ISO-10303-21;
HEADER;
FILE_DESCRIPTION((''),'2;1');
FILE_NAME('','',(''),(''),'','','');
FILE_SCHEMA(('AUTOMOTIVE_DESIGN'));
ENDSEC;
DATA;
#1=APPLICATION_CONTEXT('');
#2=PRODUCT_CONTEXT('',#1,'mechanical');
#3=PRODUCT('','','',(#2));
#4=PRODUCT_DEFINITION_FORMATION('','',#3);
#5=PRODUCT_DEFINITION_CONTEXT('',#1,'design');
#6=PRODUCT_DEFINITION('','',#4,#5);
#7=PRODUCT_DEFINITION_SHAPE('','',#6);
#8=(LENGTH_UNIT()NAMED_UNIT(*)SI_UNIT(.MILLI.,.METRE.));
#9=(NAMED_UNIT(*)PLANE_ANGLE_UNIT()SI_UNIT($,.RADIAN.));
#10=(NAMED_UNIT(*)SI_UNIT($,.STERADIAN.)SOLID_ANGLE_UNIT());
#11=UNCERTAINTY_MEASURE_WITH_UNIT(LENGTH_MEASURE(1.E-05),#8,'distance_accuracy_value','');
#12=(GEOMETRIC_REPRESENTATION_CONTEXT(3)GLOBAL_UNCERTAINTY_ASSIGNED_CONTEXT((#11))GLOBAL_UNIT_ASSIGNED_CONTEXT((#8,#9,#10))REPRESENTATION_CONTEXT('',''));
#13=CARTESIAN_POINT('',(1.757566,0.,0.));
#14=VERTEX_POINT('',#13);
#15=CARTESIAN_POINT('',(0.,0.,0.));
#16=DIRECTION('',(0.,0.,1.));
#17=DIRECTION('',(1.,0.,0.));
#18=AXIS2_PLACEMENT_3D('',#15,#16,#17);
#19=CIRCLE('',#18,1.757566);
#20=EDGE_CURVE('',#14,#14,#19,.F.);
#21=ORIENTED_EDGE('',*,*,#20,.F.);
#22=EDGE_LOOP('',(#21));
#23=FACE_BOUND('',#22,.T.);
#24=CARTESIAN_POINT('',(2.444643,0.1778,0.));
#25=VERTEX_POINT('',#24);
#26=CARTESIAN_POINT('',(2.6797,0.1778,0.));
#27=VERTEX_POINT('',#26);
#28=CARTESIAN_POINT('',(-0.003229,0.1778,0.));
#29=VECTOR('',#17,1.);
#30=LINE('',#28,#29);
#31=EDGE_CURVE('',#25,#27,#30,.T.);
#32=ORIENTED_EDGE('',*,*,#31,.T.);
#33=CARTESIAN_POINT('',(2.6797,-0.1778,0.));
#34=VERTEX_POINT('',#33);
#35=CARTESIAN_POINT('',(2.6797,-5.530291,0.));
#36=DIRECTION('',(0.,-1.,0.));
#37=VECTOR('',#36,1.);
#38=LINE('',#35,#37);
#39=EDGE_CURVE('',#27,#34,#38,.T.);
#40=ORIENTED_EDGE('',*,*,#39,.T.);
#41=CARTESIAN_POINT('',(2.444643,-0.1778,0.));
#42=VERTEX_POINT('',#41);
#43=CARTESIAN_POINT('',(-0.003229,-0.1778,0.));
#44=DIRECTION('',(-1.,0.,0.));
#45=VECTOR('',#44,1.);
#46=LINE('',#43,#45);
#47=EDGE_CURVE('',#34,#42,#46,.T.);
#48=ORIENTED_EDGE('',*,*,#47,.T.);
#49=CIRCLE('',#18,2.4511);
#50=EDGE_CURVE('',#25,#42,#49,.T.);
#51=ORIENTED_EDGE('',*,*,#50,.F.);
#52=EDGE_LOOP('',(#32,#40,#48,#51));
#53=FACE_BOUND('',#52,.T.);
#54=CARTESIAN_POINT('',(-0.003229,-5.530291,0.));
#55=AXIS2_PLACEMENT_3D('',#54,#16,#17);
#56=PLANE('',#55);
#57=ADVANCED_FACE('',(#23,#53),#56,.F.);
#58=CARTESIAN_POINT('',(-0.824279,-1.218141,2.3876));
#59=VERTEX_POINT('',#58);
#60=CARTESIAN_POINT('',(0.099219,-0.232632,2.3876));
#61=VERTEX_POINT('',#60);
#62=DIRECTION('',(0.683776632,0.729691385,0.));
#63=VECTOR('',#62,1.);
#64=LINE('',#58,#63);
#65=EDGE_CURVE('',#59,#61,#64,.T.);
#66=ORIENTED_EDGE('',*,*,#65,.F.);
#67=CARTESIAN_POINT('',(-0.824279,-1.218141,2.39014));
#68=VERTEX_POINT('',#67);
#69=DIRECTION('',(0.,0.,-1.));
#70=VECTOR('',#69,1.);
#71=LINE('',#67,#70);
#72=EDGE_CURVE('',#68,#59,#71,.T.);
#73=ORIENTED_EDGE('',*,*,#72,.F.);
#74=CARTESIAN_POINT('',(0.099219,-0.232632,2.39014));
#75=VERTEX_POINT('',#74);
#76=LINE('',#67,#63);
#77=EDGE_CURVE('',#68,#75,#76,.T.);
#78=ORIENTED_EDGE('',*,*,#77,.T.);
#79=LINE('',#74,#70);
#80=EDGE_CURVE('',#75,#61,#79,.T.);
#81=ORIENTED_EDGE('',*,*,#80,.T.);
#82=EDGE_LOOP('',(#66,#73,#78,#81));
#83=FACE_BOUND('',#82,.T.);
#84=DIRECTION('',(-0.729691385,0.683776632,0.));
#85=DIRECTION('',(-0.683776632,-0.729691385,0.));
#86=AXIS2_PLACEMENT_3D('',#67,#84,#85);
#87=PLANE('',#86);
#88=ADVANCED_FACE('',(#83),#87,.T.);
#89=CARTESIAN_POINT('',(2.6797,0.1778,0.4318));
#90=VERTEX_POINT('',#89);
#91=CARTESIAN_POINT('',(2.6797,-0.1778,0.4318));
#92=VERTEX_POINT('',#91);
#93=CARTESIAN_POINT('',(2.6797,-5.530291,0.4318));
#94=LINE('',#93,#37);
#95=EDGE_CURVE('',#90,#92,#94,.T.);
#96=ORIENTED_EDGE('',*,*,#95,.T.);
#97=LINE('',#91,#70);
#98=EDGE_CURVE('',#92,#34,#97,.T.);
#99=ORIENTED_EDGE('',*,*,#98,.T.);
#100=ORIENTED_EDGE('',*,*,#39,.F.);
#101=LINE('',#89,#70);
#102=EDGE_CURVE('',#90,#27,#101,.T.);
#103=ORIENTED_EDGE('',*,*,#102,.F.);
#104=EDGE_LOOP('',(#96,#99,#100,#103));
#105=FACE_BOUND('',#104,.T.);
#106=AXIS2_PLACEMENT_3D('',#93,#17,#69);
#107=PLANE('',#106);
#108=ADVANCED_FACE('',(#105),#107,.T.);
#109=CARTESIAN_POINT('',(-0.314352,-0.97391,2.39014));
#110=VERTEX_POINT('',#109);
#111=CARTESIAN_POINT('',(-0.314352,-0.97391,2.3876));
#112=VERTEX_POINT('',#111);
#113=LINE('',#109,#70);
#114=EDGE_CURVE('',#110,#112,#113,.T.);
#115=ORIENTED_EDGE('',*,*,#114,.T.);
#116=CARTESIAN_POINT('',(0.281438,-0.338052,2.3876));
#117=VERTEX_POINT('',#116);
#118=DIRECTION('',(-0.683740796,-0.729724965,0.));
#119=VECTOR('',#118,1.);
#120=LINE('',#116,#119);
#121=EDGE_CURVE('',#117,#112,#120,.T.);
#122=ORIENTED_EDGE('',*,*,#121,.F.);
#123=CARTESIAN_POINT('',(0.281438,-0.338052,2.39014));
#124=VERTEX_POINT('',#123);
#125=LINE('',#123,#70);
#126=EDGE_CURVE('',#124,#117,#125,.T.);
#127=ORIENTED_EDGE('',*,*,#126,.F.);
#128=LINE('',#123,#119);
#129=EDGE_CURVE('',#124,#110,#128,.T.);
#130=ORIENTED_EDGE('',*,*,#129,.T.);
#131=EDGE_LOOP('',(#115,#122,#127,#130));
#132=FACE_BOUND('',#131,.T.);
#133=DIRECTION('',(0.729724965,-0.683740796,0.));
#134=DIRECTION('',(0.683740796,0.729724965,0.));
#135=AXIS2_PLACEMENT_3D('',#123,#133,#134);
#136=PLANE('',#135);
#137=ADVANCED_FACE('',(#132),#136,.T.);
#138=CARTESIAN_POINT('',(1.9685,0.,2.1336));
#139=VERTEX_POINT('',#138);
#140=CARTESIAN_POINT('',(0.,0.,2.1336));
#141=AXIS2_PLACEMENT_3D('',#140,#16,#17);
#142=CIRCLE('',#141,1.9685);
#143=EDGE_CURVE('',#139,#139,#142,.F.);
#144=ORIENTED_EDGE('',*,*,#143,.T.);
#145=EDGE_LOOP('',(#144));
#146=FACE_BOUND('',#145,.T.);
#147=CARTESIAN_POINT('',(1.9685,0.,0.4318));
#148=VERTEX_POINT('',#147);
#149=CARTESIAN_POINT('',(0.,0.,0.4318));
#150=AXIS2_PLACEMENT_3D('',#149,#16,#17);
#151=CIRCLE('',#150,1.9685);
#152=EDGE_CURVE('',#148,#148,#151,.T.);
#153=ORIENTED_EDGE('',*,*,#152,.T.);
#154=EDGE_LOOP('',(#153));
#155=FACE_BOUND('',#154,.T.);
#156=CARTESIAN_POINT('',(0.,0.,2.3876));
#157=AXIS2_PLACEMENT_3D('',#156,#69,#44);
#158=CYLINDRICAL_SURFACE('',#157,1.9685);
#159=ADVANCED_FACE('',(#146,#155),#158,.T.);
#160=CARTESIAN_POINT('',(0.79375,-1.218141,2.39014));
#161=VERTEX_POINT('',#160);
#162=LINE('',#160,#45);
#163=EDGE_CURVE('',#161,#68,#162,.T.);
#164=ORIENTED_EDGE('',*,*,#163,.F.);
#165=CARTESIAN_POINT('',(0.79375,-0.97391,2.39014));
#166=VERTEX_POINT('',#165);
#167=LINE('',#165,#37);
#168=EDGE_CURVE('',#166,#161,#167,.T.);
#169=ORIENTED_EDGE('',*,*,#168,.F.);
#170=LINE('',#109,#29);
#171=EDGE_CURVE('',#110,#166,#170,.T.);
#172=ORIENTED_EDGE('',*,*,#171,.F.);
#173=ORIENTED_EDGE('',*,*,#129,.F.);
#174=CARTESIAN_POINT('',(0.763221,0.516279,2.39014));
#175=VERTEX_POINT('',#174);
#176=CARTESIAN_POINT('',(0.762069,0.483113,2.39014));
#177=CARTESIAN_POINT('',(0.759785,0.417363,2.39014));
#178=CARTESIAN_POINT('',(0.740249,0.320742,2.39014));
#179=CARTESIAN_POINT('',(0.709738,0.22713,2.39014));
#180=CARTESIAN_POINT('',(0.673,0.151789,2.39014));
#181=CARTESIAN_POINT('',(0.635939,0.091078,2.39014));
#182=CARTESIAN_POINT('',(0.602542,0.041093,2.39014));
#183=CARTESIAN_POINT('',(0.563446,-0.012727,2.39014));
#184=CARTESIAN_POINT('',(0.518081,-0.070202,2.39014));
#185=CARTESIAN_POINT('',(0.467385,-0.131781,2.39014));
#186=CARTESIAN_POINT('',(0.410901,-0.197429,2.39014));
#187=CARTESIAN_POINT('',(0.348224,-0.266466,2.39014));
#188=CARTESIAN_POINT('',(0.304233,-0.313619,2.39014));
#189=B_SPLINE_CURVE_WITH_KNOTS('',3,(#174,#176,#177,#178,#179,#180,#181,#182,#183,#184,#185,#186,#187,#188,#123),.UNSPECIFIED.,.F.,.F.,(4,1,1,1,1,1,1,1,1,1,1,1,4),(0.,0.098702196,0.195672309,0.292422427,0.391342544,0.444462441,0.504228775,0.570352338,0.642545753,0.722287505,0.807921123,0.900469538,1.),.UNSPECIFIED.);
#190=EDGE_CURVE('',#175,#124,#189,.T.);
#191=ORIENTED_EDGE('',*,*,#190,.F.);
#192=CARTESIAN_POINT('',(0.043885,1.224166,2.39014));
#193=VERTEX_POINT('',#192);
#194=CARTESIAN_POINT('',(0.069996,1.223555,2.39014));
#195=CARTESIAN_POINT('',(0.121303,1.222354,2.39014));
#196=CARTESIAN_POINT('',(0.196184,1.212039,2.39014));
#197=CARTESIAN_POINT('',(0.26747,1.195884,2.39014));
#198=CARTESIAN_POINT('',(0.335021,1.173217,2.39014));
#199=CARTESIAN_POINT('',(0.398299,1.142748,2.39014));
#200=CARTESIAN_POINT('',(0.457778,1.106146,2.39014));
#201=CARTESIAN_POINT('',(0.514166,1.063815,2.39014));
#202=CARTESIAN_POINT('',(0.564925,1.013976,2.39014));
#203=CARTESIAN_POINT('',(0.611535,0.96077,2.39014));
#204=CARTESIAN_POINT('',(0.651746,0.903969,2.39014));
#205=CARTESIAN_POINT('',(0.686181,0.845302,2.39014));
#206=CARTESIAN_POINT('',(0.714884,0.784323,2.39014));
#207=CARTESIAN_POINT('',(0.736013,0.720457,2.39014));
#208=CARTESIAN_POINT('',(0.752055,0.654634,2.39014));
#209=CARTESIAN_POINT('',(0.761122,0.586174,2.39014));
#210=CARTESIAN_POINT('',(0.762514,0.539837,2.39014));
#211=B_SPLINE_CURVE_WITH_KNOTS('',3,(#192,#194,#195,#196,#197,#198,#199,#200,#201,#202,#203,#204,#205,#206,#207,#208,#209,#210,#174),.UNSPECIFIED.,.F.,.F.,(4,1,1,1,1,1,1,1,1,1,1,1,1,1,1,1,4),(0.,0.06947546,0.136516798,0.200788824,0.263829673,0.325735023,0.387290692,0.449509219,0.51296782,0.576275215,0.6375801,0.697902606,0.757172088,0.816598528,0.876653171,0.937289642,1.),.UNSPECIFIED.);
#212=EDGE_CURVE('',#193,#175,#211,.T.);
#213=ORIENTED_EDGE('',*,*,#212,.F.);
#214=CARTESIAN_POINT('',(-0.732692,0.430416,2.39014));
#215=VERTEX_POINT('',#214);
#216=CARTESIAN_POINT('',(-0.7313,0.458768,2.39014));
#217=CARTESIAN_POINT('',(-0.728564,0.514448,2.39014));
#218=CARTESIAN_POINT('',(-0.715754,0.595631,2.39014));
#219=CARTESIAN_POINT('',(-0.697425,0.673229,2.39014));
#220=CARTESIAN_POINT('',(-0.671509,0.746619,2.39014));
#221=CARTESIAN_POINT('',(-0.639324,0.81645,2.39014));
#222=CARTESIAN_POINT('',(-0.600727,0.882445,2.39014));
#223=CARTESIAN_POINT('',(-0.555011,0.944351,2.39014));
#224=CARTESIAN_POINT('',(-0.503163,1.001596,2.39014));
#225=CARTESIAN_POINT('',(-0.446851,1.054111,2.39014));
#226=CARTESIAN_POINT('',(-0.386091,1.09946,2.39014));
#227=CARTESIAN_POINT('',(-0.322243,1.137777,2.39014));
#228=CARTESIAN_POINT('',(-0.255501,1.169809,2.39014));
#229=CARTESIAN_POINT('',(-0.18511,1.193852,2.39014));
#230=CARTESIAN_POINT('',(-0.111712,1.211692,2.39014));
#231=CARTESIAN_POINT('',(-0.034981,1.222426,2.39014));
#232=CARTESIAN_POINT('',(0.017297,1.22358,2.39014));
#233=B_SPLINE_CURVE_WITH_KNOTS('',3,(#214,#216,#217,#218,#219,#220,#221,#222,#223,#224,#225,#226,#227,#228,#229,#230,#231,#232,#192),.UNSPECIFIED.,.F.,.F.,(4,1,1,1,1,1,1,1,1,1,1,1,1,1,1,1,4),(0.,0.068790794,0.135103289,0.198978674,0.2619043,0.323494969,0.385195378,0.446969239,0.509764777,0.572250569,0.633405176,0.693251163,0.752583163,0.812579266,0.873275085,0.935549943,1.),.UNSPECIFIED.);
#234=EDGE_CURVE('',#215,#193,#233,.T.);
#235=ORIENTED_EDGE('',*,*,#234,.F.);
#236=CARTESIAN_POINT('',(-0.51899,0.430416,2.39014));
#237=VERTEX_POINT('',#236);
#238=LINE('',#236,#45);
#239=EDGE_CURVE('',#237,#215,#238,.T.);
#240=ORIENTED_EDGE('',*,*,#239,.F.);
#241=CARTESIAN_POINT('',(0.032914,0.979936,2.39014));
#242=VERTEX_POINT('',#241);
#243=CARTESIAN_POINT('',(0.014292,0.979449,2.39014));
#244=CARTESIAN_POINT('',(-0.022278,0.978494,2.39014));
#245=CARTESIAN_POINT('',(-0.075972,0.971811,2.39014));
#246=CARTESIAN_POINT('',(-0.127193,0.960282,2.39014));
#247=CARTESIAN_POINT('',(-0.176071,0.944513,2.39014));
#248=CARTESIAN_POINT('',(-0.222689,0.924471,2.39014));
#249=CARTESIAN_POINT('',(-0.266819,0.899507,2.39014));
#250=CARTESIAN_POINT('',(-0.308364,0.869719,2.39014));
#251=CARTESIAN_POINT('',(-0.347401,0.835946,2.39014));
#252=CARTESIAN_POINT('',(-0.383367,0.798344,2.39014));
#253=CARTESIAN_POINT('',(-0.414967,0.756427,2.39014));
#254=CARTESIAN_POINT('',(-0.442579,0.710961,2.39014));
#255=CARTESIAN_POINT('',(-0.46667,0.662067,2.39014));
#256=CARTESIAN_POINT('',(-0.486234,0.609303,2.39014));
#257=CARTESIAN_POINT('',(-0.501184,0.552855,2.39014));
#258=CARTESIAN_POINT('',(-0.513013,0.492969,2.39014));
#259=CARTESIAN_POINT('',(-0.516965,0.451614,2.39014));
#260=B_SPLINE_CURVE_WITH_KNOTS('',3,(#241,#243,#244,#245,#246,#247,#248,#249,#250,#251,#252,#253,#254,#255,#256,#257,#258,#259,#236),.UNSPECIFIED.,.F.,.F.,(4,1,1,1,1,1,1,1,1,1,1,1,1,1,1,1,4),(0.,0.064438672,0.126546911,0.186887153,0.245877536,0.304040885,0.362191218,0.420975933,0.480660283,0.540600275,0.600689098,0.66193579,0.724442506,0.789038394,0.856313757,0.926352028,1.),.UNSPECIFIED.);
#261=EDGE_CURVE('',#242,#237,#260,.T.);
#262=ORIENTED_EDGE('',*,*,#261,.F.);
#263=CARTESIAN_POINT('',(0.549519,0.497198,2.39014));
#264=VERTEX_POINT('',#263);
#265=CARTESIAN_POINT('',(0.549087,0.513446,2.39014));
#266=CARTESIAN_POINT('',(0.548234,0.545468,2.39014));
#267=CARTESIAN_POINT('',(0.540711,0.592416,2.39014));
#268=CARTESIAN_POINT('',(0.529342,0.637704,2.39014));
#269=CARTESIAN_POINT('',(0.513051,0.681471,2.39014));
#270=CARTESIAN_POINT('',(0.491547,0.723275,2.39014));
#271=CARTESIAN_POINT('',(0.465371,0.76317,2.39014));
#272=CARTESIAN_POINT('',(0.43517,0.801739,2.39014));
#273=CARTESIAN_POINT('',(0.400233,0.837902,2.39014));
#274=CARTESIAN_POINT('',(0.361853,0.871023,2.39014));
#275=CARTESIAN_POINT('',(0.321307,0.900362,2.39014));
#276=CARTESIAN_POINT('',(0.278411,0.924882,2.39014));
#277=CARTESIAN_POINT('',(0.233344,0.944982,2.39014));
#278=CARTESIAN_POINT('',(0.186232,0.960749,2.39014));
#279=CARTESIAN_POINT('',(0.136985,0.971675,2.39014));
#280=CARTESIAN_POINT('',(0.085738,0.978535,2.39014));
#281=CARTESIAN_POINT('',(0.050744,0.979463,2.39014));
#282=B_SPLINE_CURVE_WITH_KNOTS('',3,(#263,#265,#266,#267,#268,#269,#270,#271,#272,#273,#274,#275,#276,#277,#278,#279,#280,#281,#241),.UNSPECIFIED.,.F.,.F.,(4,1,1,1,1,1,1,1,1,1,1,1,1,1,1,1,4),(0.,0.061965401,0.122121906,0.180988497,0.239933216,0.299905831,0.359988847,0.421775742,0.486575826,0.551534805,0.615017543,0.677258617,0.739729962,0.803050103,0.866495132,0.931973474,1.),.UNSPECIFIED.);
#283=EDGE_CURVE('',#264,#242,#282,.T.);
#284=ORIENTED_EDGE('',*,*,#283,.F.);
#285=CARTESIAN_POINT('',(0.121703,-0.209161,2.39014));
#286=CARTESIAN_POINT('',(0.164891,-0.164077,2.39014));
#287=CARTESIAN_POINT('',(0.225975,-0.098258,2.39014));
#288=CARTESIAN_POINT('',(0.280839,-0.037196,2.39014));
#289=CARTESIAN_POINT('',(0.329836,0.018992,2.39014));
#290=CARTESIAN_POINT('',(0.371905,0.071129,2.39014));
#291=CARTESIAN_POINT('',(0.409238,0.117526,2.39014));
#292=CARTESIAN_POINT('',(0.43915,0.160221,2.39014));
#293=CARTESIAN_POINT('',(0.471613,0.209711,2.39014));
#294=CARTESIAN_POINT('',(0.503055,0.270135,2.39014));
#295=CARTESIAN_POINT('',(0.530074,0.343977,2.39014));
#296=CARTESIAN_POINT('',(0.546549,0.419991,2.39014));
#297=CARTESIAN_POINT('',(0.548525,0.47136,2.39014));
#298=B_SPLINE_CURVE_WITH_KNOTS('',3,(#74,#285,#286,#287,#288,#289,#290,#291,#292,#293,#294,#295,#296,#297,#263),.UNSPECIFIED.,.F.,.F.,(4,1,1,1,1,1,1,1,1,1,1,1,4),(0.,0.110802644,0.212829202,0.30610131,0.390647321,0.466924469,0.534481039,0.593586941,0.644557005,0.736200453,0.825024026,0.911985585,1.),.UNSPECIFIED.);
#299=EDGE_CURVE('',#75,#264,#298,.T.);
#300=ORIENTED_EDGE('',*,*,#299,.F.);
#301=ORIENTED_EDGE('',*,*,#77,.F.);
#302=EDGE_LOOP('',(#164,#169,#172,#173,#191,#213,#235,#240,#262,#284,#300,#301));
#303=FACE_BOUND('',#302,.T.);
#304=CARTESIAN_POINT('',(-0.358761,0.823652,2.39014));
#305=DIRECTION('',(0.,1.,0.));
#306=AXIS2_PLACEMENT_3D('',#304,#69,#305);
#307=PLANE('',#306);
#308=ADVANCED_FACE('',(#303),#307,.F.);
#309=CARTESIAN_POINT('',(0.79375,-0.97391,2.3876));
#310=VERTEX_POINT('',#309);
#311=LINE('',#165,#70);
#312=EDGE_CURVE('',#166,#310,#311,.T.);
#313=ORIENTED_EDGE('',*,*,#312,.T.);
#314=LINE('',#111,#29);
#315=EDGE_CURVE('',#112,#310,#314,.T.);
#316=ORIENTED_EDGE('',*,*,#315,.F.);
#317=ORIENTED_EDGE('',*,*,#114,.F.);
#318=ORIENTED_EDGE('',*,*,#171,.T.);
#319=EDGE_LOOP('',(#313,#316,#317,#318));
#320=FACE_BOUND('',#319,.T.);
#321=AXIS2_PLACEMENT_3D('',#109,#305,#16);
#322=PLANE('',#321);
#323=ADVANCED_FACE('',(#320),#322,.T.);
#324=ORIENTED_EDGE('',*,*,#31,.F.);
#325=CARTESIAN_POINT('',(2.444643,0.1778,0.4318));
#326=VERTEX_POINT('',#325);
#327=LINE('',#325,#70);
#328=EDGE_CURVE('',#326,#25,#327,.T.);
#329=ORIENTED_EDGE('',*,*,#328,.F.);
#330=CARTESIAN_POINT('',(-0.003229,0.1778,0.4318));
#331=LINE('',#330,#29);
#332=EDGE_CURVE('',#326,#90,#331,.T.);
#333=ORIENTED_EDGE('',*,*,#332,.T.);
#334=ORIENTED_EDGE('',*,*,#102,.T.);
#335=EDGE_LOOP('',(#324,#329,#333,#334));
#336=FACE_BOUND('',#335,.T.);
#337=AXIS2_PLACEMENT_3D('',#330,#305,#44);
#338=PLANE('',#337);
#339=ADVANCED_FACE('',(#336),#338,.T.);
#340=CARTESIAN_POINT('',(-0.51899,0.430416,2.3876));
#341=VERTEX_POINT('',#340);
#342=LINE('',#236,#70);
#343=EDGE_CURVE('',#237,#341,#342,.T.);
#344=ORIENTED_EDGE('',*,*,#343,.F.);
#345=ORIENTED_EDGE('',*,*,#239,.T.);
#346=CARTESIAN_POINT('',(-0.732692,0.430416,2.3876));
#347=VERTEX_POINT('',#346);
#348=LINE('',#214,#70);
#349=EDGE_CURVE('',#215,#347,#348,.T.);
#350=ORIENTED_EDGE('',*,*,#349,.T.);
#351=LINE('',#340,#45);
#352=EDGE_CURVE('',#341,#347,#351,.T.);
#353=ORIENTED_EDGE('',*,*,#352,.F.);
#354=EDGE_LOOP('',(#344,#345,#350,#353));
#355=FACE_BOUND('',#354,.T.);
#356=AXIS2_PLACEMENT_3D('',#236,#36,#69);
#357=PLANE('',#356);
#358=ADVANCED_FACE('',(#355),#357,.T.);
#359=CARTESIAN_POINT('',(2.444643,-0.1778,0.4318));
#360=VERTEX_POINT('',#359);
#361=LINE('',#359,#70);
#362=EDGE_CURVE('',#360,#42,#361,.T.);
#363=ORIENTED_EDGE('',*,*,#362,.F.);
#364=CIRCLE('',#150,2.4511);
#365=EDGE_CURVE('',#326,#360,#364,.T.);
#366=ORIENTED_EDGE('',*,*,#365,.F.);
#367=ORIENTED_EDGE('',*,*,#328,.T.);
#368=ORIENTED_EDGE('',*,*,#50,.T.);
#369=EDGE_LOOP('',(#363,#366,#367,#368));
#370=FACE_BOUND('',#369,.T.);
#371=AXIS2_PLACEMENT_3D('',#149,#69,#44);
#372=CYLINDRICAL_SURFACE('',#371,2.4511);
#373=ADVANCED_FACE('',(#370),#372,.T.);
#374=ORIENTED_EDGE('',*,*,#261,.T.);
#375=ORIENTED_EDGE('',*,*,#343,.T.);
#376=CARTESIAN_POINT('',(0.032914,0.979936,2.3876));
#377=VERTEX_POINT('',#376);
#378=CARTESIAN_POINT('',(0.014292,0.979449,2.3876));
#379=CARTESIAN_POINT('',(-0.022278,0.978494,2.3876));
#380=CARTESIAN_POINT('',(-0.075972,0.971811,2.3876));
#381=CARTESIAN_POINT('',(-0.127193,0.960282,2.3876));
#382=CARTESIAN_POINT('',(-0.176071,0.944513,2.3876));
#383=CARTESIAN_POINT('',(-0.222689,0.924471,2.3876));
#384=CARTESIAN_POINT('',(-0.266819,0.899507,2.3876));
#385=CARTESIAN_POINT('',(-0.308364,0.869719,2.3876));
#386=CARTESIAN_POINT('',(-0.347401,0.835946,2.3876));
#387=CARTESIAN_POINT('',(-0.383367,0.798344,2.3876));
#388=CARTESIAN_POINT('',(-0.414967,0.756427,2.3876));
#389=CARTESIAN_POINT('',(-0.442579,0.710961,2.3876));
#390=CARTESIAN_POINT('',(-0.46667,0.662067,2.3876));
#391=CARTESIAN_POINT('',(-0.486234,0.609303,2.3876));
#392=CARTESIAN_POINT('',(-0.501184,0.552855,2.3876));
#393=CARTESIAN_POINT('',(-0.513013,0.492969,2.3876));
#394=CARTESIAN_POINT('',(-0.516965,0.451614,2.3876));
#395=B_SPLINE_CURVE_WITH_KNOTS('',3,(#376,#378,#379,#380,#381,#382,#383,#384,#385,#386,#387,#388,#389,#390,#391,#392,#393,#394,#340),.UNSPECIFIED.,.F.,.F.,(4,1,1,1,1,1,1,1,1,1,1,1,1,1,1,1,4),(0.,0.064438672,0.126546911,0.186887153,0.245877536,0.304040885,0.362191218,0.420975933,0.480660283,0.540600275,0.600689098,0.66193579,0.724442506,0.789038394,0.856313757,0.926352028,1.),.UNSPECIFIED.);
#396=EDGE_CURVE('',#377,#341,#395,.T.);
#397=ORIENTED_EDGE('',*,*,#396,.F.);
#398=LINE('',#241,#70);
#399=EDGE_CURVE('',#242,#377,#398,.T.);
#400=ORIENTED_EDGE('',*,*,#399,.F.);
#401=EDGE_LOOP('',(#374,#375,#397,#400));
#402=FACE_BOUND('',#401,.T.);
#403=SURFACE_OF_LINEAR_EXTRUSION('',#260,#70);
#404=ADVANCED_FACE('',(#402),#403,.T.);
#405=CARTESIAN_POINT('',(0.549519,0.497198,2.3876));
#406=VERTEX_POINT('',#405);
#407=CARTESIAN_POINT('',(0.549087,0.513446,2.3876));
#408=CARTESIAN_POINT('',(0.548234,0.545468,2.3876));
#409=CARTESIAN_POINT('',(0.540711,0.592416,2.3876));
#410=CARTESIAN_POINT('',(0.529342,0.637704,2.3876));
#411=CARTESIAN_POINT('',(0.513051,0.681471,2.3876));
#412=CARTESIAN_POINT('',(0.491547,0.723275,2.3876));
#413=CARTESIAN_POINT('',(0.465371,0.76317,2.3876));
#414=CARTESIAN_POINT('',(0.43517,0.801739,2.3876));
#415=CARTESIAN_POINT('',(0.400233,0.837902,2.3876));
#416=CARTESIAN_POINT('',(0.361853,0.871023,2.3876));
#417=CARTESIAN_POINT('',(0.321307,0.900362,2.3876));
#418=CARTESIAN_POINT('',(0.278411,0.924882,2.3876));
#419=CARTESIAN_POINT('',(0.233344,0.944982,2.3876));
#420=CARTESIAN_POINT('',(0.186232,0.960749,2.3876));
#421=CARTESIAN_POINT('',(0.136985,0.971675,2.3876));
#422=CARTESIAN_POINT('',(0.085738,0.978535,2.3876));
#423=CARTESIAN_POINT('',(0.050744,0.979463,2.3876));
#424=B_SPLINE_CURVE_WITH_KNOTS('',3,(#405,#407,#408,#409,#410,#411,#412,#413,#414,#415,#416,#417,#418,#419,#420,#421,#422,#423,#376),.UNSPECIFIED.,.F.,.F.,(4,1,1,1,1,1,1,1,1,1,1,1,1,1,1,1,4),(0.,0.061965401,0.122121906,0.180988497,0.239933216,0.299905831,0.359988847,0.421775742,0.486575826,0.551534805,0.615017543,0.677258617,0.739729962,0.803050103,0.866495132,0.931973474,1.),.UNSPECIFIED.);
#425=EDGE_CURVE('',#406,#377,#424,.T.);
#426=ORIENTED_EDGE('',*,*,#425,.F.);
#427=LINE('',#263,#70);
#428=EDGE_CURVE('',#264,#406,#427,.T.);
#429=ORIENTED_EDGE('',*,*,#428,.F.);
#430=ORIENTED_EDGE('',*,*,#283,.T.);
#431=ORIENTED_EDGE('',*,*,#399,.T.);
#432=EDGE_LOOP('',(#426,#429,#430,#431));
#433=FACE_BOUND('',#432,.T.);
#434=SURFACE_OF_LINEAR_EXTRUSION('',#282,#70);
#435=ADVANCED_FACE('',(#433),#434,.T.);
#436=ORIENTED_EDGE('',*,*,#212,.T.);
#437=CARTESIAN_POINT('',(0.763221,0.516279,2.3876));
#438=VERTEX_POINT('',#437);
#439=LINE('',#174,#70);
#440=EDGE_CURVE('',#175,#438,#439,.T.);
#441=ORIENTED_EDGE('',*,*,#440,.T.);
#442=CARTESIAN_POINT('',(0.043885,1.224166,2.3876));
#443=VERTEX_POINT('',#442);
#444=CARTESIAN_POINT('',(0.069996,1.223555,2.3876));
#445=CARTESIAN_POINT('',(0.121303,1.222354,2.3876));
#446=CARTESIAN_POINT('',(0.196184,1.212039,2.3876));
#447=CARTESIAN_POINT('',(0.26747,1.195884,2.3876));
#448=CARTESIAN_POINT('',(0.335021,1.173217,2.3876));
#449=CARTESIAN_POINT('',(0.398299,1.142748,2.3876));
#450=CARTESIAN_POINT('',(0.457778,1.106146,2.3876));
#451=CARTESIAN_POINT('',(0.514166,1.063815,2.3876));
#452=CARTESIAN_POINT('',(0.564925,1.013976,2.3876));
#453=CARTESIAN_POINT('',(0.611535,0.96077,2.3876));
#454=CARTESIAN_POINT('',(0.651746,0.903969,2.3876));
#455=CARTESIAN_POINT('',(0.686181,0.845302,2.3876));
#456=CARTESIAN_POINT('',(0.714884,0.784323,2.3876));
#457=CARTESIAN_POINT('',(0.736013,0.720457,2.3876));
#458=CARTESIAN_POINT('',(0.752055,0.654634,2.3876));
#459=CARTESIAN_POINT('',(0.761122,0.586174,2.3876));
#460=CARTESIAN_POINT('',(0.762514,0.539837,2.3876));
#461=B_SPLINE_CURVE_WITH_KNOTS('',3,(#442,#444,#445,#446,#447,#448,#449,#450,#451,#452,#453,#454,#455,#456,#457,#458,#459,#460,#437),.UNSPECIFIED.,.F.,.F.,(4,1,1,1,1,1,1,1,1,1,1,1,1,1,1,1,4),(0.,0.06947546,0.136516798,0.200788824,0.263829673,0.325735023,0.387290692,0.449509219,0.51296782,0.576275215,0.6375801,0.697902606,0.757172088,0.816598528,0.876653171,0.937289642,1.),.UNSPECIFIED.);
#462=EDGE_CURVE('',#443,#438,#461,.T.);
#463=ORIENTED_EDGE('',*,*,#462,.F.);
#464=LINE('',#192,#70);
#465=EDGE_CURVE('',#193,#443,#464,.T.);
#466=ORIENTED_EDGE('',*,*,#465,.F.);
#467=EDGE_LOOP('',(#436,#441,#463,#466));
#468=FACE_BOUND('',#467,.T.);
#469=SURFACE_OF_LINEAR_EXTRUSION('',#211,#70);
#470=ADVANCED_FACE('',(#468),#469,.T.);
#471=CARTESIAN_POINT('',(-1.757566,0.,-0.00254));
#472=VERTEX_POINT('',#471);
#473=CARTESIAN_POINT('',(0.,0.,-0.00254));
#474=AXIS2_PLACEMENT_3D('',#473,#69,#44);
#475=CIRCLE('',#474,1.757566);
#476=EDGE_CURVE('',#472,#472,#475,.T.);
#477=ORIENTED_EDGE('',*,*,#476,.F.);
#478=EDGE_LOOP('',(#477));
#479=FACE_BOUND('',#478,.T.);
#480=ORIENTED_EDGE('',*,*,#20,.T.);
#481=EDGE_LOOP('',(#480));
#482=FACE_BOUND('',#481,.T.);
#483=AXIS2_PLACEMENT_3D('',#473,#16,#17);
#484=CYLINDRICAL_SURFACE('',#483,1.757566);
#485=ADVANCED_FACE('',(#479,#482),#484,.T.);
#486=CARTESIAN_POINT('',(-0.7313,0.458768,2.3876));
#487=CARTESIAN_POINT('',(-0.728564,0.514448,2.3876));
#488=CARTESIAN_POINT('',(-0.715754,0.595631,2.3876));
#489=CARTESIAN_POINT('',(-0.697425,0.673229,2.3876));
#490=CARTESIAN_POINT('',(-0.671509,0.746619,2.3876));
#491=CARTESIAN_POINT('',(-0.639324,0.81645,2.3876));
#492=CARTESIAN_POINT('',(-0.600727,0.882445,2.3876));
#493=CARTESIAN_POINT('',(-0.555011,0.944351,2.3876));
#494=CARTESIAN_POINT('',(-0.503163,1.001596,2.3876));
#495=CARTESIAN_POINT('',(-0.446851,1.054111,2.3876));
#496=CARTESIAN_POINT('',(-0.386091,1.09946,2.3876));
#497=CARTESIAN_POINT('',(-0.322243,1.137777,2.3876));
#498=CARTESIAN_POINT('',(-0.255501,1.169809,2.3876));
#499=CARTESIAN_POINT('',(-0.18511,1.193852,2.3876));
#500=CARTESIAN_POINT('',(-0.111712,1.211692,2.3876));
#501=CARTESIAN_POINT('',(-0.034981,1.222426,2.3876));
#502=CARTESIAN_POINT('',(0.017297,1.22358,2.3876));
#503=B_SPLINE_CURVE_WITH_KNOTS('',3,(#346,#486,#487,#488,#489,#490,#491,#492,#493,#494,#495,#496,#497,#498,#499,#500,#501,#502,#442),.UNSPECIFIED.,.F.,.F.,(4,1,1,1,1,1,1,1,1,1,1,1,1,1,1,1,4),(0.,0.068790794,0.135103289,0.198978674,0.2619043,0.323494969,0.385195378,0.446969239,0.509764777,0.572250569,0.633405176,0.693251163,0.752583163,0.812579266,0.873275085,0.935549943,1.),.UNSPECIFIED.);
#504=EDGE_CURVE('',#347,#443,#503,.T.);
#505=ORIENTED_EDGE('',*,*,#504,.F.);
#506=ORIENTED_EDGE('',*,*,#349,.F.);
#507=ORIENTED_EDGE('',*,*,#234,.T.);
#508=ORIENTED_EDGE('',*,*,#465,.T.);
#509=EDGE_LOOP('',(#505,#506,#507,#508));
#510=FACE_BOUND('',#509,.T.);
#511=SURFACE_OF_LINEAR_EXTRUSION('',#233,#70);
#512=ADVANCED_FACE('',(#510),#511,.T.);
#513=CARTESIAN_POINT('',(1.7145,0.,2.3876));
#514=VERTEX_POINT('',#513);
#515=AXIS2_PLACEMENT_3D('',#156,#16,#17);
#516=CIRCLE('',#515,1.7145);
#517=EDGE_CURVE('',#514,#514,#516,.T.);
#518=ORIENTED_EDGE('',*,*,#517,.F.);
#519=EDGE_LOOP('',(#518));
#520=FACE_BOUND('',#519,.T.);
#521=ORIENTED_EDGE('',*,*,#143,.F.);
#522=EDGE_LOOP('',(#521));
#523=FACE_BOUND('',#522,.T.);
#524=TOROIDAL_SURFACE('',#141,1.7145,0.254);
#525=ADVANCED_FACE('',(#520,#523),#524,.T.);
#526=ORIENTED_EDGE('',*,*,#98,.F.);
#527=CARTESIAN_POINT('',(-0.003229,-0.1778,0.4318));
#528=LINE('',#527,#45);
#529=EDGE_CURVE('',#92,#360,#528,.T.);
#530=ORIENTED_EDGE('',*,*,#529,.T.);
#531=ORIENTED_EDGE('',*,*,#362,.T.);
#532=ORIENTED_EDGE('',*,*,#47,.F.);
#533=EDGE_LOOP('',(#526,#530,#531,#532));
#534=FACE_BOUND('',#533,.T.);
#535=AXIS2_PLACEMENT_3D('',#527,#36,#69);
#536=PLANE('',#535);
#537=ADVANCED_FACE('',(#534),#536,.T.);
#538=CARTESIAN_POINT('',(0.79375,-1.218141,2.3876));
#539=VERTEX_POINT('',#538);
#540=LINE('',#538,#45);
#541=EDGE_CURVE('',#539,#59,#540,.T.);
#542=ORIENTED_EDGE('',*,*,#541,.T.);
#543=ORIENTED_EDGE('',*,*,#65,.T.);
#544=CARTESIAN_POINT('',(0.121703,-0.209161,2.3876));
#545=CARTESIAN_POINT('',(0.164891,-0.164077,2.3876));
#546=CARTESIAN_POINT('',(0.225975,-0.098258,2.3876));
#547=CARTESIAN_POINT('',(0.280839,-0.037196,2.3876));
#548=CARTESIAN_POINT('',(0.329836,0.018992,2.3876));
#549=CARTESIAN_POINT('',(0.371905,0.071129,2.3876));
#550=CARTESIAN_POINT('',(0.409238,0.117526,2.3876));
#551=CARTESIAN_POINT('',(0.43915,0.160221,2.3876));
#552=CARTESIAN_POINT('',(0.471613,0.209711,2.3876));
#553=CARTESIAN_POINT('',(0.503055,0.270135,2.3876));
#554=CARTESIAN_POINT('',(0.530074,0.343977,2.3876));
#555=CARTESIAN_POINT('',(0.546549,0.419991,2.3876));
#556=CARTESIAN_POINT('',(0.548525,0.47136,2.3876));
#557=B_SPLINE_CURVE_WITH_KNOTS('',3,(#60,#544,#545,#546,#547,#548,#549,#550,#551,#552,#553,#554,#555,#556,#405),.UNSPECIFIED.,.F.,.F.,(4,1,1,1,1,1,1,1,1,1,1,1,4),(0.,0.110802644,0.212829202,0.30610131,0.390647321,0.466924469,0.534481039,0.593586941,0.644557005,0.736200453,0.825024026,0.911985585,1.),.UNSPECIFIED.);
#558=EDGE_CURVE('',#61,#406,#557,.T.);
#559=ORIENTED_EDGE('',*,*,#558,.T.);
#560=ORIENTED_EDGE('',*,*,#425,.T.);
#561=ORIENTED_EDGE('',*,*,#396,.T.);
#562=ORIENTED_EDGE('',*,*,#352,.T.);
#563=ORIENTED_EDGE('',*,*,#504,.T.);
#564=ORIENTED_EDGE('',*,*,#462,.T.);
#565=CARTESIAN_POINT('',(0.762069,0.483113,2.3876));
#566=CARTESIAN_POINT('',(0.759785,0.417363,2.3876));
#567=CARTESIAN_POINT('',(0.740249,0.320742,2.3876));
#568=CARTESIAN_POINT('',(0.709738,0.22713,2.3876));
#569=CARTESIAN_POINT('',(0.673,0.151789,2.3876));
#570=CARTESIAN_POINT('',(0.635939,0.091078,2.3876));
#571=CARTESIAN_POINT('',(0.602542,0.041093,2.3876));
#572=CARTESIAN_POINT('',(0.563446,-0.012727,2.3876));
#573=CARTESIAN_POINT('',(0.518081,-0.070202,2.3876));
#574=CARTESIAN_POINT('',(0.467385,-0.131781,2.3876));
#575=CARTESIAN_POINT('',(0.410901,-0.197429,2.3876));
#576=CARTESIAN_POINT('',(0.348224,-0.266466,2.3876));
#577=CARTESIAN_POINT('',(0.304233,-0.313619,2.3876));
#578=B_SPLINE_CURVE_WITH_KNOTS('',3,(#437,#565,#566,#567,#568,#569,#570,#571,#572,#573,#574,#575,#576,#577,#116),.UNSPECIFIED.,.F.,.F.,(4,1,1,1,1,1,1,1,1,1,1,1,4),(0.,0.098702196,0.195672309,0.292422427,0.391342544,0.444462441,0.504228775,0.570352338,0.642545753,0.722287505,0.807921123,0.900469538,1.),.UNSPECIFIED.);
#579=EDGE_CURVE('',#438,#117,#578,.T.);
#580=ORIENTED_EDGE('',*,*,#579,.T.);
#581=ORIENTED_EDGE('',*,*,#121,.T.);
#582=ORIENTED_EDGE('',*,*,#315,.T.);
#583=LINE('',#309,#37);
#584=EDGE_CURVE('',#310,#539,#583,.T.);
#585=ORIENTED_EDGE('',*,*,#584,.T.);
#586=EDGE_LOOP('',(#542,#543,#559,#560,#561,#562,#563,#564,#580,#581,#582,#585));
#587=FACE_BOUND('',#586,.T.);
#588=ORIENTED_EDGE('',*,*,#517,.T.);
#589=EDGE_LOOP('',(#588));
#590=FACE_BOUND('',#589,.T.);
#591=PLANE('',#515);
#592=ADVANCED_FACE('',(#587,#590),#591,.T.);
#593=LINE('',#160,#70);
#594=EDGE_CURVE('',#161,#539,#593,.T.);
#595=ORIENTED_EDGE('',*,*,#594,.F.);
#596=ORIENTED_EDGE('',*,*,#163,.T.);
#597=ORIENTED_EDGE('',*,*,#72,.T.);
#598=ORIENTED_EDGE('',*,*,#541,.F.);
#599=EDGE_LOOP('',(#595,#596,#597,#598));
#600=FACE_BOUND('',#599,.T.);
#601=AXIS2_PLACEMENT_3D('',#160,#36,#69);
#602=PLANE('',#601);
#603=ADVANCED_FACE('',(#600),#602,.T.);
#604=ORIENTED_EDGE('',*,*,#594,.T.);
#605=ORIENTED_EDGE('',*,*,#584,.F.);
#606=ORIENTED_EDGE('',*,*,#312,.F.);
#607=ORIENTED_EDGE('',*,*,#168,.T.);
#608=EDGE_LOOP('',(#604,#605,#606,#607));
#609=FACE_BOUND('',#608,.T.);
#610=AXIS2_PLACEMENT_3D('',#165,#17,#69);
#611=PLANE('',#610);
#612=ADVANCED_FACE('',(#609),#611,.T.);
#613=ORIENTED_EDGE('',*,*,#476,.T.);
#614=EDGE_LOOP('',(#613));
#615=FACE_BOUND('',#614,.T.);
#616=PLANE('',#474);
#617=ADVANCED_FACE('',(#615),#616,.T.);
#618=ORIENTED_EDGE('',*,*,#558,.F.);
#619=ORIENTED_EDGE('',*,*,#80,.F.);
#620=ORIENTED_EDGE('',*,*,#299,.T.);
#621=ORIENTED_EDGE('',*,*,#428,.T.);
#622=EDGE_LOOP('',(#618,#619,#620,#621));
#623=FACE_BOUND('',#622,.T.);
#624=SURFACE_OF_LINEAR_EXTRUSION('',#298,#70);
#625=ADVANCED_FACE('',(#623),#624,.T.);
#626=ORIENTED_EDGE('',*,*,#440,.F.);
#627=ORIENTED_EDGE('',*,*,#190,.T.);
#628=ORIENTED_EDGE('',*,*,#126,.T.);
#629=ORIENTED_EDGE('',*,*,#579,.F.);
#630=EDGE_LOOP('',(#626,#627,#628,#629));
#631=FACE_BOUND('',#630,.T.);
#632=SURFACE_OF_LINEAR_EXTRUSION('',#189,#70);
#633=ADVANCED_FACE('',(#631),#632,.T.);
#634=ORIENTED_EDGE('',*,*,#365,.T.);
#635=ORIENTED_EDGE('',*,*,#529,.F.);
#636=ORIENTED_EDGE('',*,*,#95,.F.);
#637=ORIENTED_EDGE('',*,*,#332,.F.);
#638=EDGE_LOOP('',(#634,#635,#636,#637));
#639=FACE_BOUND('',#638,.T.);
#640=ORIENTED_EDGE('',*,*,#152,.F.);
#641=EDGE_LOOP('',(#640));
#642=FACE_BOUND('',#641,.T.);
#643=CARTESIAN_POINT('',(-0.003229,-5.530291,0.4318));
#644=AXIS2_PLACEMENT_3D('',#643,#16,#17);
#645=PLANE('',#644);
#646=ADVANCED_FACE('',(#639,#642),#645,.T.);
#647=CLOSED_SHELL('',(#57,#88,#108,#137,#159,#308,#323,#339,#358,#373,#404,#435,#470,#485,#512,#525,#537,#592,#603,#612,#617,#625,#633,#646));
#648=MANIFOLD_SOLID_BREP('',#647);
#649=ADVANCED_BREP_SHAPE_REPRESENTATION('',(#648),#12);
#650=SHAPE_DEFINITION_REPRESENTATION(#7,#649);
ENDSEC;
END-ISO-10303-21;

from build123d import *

# Parameters (mm, degrees)
BOSS_EXTRUDE1_DEPTH = 0.4318
SKETCH2_R           = 1.9685
BOSS_EXTRUDE2_DEPTH = 1.9558
SKETCH3_R           = 1.757566481
BOSS_EXTRUDE3_DEPTH = 0.00254
FILLET1_R           = 0.254
BOSS_EXTRUDE5_DEPTH = 0.00254


with BuildPart() as part:
    # Sketch1 → Boss-Extrude1 (new body)
    with BuildSketch(Plane.XY):
        with BuildLine():
            Line((2.6797, 0.1778), (2.4511, 0.1778))
            Line((2.4511, 0.1778), (2.44464279, 0.1778))
            ThreePointArc((2.44464279, 0.1778), (-2.4511, 0), (2.44464279, -0.1778))
            Line((2.44464279, -0.1778), (2.4511, -0.1778))
            Line((2.4511, -0.1778), (2.6797, -0.1778))
            Line((2.6797, -0.1778), (2.6797, 0.1778))
        make_face()
    extrude(amount=BOSS_EXTRUDE1_DEPTH)

    # Sketch2 → Boss-Extrude2 (add)
    with BuildSketch(Plane.XY.offset(0.4318)):
        Circle(SKETCH2_R)
    extrude(amount=BOSS_EXTRUDE2_DEPTH)

    # Sketch3 → Boss-Extrude3 (add)
    with BuildSketch(Plane(origin=(0, 0, 0), x_dir=(-1, 0, 0), z_dir=(0, 0, -1))):
        Circle(SKETCH3_R)
    extrude(amount=BOSS_EXTRUDE3_DEPTH)

    # Fillet1
    fillet1_edges = [part.edges().sort_by_distance(p)[0] for p in [
        (-1.9685, 0, 2.3876),
    ]]
    fillet(fillet1_edges, radius=FILLET1_R)

    # Sketch4 → Boss-Extrude5 (add)
    with BuildSketch(Plane.XY.offset(2.3876)):
        with BuildLine():
            Line((-0.518990385, 0.430416485), (-0.732692308, 0.430416485))
            add(Edge.make_bspline(
                [(-0.732692308, 0.430416485), (-0.731299513, 0.458767572), (-0.7285641, 0.51444835), (-0.715754139, 0.595631222), (-0.697424721, 0.673229219), (-0.671508928, 0.746619286), (-0.639323764, 0.816450331), (-0.600727084, 0.882444985), (-0.555011268, 0.94435149), (-0.503163472, 1.001595953), (-0.446851238, 1.054111068), (-0.386091304, 1.099460439), (-0.322243169, 1.137776569), (-0.255500542, 1.169808628), (-0.185110409, 1.193852344), (-0.111711536, 1.211692424), (-0.034981445, 1.222425974), (0.017297213, 1.223579714), (0.043885216, 1.224166485)],
                knots=[0, 0, 0, 0, 8.5101e-05, 0.000167136, 0.000246156, 0.000324002, 0.000400196, 0.000476525, 0.000552946, 0.00063063, 0.000707931, 0.000783585, 0.000857621, 0.000931021, 0.001005242, 0.001080329, 0.001157369, 0.0012371, 0.0012371, 0.0012371, 0.0012371], degree=3))
            add(Edge.make_bspline(
                [(0.043885216, 1.224166485), (0.069996013, 1.223555214), (0.121302796, 1.222354088), (0.196184274, 1.212039173), (0.267470255, 1.19588369), (0.335021396, 1.173217309), (0.398298736, 1.142747904), (0.457777629, 1.106146364), (0.514166181, 1.063814658), (0.564925439, 1.013975902), (0.6115354, 0.960770351), (0.651746041, 0.90396876), (0.686181069, 0.845302049), (0.714883758, 0.784322862), (0.736013024, 0.720457038), (0.752054626, 0.654634387), (0.761122027, 0.586173578), (0.762513646, 0.539836797), (0.763221154, 0.516278865)],
                knots=[0, 0, 0, 0, 7.8301e-05, 0.000153859, 0.000226296, 0.000297346, 0.000367115, 0.000436491, 0.000506613, 0.000578134, 0.000649483, 0.000718576, 0.000786562, 0.000853361, 0.000920337, 0.00098802, 0.00105636, 0.001127037, 0.001127037, 0.001127037, 0.001127037], degree=3))
            add(Edge.make_bspline(
                [(0.763221154, 0.516278865), (0.76206913, 0.483112928), (0.7597853, 0.417363068), (0.740249269, 0.320742242), (0.709737624, 0.227129576), (0.673000137, 0.151788662), (0.635939421, 0.091078017), (0.602542384, 0.041093059), (0.56344579, -0.012726912), (0.518080597, -0.070201671), (0.467385232, -0.131781412), (0.410900511, -0.197428934), (0.348223642, -0.266465977), (0.304232769, -0.313618538), (0.2814378, -0.338051814)],
                knots=[0, 0, 0, 0, 9.9412e-05, 0.00019708, 0.000294526, 0.000394158, 0.00044766, 0.000507857, 0.000574456, 0.000647169, 0.000727484, 0.000813734, 0.000906948, 0.001007195, 0.001007195, 0.001007195, 0.001007195], degree=3))
            Line((0.2814378, -0.338051814), (-0.314351713, -0.973910438))
            Line((-0.314351713, -0.973910438), (0.79375, -0.973910438))
            Line((0.79375, -0.973910438), (0.79375, -1.218141207))
            Line((0.79375, -1.218141207), (-0.824278846, -1.218141207))
            Line((-0.824278846, -1.218141207), (0.09921875, -0.232631892))
            add(Edge.make_bspline(
                [(0.09921875, -0.232631892), (0.121703116, -0.209160723), (0.164890981, -0.16407741), (0.225975199, -0.098257646), (0.28083851, -0.037195905), (0.329836058, 0.018992443), (0.371904925, 0.071129278), (0.40923764, 0.117526031), (0.439149944, 0.16022147), (0.471613454, 0.209711066), (0.503055466, 0.27013516), (0.530074051, 0.343976831), (0.546548796, 0.419991266), (0.548525122, 0.471359616), (0.549519231, 0.497198336)],
                knots=[0, 0, 0, 0, 9.7508e-05, 0.000187293, 0.000269374, 0.000343776, 0.000410901, 0.000470352, 0.000522366, 0.00056722, 0.000647868, 0.000726034, 0.000802562, 0.000880016, 0.000880016, 0.000880016, 0.000880016], degree=3))
            add(Edge.make_bspline(
                [(0.549519231, 0.497198336), (0.549086699, 0.513446216), (0.548234262, 0.545467668), (0.540711078, 0.592416229), (0.529341966, 0.637704075), (0.513050639, 0.681470511), (0.491546767, 0.723275499), (0.465371129, 0.763169928), (0.435170032, 0.80173867), (0.400232829, 0.837901896), (0.361852849, 0.871022502), (0.321307475, 0.900362281), (0.278410886, 0.924881748), (0.233343946, 0.944981877), (0.186232296, 0.960749413), (0.136984818, 0.971674983), (0.085737585, 0.978534673), (0.050744439, 0.979462797), (0.032913912, 0.979935716)],
                knots=[0, 0, 0, 0, 4.8714e-05, 9.6005e-05, 0.000142283, 0.000188622, 0.000235769, 0.000283003, 0.000331577, 0.000382519, 0.000433586, 0.000483493, 0.000532423, 0.000581535, 0.000631314, 0.000681191, 0.000732666, 0.000786145, 0.000786145, 0.000786145, 0.000786145], degree=3))
            add(Edge.make_bspline(
                [(0.032913912, 0.979935716), (0.014291971, 0.979449239), (-0.022278448, 0.978493878), (-0.075971576, 0.971810958), (-0.127192792, 0.960281735), (-0.176070944, 0.944513319), (-0.222688734, 0.924470984), (-0.266819449, 0.899507494), (-0.308364022, 0.869719082), (-0.34740055, 0.835945775), (-0.383366935, 0.798344067), (-0.414967399, 0.756427289), (-0.442579023, 0.710960779), (-0.466669948, 0.662067219), (-0.486234087, 0.609302951), (-0.501183677, 0.55285528), (-0.513012942, 0.492969305), (-0.516964811, 0.451613738), (-0.518990385, 0.430416485)],
                knots=[0, 0, 0, 0, 5.5861e-05, 0.000109703, 0.000162011, 0.00021315, 0.000263571, 0.000313981, 0.000364941, 0.000416681, 0.000468643, 0.000520734, 0.000573828, 0.000628015, 0.000684013, 0.000742333, 0.000803049, 0.000866894, 0.000866894, 0.000866894, 0.000866894], degree=3))
        make_face()
    extrude(amount=BOSS_EXTRUDE5_DEPTH)


solid = part.part
